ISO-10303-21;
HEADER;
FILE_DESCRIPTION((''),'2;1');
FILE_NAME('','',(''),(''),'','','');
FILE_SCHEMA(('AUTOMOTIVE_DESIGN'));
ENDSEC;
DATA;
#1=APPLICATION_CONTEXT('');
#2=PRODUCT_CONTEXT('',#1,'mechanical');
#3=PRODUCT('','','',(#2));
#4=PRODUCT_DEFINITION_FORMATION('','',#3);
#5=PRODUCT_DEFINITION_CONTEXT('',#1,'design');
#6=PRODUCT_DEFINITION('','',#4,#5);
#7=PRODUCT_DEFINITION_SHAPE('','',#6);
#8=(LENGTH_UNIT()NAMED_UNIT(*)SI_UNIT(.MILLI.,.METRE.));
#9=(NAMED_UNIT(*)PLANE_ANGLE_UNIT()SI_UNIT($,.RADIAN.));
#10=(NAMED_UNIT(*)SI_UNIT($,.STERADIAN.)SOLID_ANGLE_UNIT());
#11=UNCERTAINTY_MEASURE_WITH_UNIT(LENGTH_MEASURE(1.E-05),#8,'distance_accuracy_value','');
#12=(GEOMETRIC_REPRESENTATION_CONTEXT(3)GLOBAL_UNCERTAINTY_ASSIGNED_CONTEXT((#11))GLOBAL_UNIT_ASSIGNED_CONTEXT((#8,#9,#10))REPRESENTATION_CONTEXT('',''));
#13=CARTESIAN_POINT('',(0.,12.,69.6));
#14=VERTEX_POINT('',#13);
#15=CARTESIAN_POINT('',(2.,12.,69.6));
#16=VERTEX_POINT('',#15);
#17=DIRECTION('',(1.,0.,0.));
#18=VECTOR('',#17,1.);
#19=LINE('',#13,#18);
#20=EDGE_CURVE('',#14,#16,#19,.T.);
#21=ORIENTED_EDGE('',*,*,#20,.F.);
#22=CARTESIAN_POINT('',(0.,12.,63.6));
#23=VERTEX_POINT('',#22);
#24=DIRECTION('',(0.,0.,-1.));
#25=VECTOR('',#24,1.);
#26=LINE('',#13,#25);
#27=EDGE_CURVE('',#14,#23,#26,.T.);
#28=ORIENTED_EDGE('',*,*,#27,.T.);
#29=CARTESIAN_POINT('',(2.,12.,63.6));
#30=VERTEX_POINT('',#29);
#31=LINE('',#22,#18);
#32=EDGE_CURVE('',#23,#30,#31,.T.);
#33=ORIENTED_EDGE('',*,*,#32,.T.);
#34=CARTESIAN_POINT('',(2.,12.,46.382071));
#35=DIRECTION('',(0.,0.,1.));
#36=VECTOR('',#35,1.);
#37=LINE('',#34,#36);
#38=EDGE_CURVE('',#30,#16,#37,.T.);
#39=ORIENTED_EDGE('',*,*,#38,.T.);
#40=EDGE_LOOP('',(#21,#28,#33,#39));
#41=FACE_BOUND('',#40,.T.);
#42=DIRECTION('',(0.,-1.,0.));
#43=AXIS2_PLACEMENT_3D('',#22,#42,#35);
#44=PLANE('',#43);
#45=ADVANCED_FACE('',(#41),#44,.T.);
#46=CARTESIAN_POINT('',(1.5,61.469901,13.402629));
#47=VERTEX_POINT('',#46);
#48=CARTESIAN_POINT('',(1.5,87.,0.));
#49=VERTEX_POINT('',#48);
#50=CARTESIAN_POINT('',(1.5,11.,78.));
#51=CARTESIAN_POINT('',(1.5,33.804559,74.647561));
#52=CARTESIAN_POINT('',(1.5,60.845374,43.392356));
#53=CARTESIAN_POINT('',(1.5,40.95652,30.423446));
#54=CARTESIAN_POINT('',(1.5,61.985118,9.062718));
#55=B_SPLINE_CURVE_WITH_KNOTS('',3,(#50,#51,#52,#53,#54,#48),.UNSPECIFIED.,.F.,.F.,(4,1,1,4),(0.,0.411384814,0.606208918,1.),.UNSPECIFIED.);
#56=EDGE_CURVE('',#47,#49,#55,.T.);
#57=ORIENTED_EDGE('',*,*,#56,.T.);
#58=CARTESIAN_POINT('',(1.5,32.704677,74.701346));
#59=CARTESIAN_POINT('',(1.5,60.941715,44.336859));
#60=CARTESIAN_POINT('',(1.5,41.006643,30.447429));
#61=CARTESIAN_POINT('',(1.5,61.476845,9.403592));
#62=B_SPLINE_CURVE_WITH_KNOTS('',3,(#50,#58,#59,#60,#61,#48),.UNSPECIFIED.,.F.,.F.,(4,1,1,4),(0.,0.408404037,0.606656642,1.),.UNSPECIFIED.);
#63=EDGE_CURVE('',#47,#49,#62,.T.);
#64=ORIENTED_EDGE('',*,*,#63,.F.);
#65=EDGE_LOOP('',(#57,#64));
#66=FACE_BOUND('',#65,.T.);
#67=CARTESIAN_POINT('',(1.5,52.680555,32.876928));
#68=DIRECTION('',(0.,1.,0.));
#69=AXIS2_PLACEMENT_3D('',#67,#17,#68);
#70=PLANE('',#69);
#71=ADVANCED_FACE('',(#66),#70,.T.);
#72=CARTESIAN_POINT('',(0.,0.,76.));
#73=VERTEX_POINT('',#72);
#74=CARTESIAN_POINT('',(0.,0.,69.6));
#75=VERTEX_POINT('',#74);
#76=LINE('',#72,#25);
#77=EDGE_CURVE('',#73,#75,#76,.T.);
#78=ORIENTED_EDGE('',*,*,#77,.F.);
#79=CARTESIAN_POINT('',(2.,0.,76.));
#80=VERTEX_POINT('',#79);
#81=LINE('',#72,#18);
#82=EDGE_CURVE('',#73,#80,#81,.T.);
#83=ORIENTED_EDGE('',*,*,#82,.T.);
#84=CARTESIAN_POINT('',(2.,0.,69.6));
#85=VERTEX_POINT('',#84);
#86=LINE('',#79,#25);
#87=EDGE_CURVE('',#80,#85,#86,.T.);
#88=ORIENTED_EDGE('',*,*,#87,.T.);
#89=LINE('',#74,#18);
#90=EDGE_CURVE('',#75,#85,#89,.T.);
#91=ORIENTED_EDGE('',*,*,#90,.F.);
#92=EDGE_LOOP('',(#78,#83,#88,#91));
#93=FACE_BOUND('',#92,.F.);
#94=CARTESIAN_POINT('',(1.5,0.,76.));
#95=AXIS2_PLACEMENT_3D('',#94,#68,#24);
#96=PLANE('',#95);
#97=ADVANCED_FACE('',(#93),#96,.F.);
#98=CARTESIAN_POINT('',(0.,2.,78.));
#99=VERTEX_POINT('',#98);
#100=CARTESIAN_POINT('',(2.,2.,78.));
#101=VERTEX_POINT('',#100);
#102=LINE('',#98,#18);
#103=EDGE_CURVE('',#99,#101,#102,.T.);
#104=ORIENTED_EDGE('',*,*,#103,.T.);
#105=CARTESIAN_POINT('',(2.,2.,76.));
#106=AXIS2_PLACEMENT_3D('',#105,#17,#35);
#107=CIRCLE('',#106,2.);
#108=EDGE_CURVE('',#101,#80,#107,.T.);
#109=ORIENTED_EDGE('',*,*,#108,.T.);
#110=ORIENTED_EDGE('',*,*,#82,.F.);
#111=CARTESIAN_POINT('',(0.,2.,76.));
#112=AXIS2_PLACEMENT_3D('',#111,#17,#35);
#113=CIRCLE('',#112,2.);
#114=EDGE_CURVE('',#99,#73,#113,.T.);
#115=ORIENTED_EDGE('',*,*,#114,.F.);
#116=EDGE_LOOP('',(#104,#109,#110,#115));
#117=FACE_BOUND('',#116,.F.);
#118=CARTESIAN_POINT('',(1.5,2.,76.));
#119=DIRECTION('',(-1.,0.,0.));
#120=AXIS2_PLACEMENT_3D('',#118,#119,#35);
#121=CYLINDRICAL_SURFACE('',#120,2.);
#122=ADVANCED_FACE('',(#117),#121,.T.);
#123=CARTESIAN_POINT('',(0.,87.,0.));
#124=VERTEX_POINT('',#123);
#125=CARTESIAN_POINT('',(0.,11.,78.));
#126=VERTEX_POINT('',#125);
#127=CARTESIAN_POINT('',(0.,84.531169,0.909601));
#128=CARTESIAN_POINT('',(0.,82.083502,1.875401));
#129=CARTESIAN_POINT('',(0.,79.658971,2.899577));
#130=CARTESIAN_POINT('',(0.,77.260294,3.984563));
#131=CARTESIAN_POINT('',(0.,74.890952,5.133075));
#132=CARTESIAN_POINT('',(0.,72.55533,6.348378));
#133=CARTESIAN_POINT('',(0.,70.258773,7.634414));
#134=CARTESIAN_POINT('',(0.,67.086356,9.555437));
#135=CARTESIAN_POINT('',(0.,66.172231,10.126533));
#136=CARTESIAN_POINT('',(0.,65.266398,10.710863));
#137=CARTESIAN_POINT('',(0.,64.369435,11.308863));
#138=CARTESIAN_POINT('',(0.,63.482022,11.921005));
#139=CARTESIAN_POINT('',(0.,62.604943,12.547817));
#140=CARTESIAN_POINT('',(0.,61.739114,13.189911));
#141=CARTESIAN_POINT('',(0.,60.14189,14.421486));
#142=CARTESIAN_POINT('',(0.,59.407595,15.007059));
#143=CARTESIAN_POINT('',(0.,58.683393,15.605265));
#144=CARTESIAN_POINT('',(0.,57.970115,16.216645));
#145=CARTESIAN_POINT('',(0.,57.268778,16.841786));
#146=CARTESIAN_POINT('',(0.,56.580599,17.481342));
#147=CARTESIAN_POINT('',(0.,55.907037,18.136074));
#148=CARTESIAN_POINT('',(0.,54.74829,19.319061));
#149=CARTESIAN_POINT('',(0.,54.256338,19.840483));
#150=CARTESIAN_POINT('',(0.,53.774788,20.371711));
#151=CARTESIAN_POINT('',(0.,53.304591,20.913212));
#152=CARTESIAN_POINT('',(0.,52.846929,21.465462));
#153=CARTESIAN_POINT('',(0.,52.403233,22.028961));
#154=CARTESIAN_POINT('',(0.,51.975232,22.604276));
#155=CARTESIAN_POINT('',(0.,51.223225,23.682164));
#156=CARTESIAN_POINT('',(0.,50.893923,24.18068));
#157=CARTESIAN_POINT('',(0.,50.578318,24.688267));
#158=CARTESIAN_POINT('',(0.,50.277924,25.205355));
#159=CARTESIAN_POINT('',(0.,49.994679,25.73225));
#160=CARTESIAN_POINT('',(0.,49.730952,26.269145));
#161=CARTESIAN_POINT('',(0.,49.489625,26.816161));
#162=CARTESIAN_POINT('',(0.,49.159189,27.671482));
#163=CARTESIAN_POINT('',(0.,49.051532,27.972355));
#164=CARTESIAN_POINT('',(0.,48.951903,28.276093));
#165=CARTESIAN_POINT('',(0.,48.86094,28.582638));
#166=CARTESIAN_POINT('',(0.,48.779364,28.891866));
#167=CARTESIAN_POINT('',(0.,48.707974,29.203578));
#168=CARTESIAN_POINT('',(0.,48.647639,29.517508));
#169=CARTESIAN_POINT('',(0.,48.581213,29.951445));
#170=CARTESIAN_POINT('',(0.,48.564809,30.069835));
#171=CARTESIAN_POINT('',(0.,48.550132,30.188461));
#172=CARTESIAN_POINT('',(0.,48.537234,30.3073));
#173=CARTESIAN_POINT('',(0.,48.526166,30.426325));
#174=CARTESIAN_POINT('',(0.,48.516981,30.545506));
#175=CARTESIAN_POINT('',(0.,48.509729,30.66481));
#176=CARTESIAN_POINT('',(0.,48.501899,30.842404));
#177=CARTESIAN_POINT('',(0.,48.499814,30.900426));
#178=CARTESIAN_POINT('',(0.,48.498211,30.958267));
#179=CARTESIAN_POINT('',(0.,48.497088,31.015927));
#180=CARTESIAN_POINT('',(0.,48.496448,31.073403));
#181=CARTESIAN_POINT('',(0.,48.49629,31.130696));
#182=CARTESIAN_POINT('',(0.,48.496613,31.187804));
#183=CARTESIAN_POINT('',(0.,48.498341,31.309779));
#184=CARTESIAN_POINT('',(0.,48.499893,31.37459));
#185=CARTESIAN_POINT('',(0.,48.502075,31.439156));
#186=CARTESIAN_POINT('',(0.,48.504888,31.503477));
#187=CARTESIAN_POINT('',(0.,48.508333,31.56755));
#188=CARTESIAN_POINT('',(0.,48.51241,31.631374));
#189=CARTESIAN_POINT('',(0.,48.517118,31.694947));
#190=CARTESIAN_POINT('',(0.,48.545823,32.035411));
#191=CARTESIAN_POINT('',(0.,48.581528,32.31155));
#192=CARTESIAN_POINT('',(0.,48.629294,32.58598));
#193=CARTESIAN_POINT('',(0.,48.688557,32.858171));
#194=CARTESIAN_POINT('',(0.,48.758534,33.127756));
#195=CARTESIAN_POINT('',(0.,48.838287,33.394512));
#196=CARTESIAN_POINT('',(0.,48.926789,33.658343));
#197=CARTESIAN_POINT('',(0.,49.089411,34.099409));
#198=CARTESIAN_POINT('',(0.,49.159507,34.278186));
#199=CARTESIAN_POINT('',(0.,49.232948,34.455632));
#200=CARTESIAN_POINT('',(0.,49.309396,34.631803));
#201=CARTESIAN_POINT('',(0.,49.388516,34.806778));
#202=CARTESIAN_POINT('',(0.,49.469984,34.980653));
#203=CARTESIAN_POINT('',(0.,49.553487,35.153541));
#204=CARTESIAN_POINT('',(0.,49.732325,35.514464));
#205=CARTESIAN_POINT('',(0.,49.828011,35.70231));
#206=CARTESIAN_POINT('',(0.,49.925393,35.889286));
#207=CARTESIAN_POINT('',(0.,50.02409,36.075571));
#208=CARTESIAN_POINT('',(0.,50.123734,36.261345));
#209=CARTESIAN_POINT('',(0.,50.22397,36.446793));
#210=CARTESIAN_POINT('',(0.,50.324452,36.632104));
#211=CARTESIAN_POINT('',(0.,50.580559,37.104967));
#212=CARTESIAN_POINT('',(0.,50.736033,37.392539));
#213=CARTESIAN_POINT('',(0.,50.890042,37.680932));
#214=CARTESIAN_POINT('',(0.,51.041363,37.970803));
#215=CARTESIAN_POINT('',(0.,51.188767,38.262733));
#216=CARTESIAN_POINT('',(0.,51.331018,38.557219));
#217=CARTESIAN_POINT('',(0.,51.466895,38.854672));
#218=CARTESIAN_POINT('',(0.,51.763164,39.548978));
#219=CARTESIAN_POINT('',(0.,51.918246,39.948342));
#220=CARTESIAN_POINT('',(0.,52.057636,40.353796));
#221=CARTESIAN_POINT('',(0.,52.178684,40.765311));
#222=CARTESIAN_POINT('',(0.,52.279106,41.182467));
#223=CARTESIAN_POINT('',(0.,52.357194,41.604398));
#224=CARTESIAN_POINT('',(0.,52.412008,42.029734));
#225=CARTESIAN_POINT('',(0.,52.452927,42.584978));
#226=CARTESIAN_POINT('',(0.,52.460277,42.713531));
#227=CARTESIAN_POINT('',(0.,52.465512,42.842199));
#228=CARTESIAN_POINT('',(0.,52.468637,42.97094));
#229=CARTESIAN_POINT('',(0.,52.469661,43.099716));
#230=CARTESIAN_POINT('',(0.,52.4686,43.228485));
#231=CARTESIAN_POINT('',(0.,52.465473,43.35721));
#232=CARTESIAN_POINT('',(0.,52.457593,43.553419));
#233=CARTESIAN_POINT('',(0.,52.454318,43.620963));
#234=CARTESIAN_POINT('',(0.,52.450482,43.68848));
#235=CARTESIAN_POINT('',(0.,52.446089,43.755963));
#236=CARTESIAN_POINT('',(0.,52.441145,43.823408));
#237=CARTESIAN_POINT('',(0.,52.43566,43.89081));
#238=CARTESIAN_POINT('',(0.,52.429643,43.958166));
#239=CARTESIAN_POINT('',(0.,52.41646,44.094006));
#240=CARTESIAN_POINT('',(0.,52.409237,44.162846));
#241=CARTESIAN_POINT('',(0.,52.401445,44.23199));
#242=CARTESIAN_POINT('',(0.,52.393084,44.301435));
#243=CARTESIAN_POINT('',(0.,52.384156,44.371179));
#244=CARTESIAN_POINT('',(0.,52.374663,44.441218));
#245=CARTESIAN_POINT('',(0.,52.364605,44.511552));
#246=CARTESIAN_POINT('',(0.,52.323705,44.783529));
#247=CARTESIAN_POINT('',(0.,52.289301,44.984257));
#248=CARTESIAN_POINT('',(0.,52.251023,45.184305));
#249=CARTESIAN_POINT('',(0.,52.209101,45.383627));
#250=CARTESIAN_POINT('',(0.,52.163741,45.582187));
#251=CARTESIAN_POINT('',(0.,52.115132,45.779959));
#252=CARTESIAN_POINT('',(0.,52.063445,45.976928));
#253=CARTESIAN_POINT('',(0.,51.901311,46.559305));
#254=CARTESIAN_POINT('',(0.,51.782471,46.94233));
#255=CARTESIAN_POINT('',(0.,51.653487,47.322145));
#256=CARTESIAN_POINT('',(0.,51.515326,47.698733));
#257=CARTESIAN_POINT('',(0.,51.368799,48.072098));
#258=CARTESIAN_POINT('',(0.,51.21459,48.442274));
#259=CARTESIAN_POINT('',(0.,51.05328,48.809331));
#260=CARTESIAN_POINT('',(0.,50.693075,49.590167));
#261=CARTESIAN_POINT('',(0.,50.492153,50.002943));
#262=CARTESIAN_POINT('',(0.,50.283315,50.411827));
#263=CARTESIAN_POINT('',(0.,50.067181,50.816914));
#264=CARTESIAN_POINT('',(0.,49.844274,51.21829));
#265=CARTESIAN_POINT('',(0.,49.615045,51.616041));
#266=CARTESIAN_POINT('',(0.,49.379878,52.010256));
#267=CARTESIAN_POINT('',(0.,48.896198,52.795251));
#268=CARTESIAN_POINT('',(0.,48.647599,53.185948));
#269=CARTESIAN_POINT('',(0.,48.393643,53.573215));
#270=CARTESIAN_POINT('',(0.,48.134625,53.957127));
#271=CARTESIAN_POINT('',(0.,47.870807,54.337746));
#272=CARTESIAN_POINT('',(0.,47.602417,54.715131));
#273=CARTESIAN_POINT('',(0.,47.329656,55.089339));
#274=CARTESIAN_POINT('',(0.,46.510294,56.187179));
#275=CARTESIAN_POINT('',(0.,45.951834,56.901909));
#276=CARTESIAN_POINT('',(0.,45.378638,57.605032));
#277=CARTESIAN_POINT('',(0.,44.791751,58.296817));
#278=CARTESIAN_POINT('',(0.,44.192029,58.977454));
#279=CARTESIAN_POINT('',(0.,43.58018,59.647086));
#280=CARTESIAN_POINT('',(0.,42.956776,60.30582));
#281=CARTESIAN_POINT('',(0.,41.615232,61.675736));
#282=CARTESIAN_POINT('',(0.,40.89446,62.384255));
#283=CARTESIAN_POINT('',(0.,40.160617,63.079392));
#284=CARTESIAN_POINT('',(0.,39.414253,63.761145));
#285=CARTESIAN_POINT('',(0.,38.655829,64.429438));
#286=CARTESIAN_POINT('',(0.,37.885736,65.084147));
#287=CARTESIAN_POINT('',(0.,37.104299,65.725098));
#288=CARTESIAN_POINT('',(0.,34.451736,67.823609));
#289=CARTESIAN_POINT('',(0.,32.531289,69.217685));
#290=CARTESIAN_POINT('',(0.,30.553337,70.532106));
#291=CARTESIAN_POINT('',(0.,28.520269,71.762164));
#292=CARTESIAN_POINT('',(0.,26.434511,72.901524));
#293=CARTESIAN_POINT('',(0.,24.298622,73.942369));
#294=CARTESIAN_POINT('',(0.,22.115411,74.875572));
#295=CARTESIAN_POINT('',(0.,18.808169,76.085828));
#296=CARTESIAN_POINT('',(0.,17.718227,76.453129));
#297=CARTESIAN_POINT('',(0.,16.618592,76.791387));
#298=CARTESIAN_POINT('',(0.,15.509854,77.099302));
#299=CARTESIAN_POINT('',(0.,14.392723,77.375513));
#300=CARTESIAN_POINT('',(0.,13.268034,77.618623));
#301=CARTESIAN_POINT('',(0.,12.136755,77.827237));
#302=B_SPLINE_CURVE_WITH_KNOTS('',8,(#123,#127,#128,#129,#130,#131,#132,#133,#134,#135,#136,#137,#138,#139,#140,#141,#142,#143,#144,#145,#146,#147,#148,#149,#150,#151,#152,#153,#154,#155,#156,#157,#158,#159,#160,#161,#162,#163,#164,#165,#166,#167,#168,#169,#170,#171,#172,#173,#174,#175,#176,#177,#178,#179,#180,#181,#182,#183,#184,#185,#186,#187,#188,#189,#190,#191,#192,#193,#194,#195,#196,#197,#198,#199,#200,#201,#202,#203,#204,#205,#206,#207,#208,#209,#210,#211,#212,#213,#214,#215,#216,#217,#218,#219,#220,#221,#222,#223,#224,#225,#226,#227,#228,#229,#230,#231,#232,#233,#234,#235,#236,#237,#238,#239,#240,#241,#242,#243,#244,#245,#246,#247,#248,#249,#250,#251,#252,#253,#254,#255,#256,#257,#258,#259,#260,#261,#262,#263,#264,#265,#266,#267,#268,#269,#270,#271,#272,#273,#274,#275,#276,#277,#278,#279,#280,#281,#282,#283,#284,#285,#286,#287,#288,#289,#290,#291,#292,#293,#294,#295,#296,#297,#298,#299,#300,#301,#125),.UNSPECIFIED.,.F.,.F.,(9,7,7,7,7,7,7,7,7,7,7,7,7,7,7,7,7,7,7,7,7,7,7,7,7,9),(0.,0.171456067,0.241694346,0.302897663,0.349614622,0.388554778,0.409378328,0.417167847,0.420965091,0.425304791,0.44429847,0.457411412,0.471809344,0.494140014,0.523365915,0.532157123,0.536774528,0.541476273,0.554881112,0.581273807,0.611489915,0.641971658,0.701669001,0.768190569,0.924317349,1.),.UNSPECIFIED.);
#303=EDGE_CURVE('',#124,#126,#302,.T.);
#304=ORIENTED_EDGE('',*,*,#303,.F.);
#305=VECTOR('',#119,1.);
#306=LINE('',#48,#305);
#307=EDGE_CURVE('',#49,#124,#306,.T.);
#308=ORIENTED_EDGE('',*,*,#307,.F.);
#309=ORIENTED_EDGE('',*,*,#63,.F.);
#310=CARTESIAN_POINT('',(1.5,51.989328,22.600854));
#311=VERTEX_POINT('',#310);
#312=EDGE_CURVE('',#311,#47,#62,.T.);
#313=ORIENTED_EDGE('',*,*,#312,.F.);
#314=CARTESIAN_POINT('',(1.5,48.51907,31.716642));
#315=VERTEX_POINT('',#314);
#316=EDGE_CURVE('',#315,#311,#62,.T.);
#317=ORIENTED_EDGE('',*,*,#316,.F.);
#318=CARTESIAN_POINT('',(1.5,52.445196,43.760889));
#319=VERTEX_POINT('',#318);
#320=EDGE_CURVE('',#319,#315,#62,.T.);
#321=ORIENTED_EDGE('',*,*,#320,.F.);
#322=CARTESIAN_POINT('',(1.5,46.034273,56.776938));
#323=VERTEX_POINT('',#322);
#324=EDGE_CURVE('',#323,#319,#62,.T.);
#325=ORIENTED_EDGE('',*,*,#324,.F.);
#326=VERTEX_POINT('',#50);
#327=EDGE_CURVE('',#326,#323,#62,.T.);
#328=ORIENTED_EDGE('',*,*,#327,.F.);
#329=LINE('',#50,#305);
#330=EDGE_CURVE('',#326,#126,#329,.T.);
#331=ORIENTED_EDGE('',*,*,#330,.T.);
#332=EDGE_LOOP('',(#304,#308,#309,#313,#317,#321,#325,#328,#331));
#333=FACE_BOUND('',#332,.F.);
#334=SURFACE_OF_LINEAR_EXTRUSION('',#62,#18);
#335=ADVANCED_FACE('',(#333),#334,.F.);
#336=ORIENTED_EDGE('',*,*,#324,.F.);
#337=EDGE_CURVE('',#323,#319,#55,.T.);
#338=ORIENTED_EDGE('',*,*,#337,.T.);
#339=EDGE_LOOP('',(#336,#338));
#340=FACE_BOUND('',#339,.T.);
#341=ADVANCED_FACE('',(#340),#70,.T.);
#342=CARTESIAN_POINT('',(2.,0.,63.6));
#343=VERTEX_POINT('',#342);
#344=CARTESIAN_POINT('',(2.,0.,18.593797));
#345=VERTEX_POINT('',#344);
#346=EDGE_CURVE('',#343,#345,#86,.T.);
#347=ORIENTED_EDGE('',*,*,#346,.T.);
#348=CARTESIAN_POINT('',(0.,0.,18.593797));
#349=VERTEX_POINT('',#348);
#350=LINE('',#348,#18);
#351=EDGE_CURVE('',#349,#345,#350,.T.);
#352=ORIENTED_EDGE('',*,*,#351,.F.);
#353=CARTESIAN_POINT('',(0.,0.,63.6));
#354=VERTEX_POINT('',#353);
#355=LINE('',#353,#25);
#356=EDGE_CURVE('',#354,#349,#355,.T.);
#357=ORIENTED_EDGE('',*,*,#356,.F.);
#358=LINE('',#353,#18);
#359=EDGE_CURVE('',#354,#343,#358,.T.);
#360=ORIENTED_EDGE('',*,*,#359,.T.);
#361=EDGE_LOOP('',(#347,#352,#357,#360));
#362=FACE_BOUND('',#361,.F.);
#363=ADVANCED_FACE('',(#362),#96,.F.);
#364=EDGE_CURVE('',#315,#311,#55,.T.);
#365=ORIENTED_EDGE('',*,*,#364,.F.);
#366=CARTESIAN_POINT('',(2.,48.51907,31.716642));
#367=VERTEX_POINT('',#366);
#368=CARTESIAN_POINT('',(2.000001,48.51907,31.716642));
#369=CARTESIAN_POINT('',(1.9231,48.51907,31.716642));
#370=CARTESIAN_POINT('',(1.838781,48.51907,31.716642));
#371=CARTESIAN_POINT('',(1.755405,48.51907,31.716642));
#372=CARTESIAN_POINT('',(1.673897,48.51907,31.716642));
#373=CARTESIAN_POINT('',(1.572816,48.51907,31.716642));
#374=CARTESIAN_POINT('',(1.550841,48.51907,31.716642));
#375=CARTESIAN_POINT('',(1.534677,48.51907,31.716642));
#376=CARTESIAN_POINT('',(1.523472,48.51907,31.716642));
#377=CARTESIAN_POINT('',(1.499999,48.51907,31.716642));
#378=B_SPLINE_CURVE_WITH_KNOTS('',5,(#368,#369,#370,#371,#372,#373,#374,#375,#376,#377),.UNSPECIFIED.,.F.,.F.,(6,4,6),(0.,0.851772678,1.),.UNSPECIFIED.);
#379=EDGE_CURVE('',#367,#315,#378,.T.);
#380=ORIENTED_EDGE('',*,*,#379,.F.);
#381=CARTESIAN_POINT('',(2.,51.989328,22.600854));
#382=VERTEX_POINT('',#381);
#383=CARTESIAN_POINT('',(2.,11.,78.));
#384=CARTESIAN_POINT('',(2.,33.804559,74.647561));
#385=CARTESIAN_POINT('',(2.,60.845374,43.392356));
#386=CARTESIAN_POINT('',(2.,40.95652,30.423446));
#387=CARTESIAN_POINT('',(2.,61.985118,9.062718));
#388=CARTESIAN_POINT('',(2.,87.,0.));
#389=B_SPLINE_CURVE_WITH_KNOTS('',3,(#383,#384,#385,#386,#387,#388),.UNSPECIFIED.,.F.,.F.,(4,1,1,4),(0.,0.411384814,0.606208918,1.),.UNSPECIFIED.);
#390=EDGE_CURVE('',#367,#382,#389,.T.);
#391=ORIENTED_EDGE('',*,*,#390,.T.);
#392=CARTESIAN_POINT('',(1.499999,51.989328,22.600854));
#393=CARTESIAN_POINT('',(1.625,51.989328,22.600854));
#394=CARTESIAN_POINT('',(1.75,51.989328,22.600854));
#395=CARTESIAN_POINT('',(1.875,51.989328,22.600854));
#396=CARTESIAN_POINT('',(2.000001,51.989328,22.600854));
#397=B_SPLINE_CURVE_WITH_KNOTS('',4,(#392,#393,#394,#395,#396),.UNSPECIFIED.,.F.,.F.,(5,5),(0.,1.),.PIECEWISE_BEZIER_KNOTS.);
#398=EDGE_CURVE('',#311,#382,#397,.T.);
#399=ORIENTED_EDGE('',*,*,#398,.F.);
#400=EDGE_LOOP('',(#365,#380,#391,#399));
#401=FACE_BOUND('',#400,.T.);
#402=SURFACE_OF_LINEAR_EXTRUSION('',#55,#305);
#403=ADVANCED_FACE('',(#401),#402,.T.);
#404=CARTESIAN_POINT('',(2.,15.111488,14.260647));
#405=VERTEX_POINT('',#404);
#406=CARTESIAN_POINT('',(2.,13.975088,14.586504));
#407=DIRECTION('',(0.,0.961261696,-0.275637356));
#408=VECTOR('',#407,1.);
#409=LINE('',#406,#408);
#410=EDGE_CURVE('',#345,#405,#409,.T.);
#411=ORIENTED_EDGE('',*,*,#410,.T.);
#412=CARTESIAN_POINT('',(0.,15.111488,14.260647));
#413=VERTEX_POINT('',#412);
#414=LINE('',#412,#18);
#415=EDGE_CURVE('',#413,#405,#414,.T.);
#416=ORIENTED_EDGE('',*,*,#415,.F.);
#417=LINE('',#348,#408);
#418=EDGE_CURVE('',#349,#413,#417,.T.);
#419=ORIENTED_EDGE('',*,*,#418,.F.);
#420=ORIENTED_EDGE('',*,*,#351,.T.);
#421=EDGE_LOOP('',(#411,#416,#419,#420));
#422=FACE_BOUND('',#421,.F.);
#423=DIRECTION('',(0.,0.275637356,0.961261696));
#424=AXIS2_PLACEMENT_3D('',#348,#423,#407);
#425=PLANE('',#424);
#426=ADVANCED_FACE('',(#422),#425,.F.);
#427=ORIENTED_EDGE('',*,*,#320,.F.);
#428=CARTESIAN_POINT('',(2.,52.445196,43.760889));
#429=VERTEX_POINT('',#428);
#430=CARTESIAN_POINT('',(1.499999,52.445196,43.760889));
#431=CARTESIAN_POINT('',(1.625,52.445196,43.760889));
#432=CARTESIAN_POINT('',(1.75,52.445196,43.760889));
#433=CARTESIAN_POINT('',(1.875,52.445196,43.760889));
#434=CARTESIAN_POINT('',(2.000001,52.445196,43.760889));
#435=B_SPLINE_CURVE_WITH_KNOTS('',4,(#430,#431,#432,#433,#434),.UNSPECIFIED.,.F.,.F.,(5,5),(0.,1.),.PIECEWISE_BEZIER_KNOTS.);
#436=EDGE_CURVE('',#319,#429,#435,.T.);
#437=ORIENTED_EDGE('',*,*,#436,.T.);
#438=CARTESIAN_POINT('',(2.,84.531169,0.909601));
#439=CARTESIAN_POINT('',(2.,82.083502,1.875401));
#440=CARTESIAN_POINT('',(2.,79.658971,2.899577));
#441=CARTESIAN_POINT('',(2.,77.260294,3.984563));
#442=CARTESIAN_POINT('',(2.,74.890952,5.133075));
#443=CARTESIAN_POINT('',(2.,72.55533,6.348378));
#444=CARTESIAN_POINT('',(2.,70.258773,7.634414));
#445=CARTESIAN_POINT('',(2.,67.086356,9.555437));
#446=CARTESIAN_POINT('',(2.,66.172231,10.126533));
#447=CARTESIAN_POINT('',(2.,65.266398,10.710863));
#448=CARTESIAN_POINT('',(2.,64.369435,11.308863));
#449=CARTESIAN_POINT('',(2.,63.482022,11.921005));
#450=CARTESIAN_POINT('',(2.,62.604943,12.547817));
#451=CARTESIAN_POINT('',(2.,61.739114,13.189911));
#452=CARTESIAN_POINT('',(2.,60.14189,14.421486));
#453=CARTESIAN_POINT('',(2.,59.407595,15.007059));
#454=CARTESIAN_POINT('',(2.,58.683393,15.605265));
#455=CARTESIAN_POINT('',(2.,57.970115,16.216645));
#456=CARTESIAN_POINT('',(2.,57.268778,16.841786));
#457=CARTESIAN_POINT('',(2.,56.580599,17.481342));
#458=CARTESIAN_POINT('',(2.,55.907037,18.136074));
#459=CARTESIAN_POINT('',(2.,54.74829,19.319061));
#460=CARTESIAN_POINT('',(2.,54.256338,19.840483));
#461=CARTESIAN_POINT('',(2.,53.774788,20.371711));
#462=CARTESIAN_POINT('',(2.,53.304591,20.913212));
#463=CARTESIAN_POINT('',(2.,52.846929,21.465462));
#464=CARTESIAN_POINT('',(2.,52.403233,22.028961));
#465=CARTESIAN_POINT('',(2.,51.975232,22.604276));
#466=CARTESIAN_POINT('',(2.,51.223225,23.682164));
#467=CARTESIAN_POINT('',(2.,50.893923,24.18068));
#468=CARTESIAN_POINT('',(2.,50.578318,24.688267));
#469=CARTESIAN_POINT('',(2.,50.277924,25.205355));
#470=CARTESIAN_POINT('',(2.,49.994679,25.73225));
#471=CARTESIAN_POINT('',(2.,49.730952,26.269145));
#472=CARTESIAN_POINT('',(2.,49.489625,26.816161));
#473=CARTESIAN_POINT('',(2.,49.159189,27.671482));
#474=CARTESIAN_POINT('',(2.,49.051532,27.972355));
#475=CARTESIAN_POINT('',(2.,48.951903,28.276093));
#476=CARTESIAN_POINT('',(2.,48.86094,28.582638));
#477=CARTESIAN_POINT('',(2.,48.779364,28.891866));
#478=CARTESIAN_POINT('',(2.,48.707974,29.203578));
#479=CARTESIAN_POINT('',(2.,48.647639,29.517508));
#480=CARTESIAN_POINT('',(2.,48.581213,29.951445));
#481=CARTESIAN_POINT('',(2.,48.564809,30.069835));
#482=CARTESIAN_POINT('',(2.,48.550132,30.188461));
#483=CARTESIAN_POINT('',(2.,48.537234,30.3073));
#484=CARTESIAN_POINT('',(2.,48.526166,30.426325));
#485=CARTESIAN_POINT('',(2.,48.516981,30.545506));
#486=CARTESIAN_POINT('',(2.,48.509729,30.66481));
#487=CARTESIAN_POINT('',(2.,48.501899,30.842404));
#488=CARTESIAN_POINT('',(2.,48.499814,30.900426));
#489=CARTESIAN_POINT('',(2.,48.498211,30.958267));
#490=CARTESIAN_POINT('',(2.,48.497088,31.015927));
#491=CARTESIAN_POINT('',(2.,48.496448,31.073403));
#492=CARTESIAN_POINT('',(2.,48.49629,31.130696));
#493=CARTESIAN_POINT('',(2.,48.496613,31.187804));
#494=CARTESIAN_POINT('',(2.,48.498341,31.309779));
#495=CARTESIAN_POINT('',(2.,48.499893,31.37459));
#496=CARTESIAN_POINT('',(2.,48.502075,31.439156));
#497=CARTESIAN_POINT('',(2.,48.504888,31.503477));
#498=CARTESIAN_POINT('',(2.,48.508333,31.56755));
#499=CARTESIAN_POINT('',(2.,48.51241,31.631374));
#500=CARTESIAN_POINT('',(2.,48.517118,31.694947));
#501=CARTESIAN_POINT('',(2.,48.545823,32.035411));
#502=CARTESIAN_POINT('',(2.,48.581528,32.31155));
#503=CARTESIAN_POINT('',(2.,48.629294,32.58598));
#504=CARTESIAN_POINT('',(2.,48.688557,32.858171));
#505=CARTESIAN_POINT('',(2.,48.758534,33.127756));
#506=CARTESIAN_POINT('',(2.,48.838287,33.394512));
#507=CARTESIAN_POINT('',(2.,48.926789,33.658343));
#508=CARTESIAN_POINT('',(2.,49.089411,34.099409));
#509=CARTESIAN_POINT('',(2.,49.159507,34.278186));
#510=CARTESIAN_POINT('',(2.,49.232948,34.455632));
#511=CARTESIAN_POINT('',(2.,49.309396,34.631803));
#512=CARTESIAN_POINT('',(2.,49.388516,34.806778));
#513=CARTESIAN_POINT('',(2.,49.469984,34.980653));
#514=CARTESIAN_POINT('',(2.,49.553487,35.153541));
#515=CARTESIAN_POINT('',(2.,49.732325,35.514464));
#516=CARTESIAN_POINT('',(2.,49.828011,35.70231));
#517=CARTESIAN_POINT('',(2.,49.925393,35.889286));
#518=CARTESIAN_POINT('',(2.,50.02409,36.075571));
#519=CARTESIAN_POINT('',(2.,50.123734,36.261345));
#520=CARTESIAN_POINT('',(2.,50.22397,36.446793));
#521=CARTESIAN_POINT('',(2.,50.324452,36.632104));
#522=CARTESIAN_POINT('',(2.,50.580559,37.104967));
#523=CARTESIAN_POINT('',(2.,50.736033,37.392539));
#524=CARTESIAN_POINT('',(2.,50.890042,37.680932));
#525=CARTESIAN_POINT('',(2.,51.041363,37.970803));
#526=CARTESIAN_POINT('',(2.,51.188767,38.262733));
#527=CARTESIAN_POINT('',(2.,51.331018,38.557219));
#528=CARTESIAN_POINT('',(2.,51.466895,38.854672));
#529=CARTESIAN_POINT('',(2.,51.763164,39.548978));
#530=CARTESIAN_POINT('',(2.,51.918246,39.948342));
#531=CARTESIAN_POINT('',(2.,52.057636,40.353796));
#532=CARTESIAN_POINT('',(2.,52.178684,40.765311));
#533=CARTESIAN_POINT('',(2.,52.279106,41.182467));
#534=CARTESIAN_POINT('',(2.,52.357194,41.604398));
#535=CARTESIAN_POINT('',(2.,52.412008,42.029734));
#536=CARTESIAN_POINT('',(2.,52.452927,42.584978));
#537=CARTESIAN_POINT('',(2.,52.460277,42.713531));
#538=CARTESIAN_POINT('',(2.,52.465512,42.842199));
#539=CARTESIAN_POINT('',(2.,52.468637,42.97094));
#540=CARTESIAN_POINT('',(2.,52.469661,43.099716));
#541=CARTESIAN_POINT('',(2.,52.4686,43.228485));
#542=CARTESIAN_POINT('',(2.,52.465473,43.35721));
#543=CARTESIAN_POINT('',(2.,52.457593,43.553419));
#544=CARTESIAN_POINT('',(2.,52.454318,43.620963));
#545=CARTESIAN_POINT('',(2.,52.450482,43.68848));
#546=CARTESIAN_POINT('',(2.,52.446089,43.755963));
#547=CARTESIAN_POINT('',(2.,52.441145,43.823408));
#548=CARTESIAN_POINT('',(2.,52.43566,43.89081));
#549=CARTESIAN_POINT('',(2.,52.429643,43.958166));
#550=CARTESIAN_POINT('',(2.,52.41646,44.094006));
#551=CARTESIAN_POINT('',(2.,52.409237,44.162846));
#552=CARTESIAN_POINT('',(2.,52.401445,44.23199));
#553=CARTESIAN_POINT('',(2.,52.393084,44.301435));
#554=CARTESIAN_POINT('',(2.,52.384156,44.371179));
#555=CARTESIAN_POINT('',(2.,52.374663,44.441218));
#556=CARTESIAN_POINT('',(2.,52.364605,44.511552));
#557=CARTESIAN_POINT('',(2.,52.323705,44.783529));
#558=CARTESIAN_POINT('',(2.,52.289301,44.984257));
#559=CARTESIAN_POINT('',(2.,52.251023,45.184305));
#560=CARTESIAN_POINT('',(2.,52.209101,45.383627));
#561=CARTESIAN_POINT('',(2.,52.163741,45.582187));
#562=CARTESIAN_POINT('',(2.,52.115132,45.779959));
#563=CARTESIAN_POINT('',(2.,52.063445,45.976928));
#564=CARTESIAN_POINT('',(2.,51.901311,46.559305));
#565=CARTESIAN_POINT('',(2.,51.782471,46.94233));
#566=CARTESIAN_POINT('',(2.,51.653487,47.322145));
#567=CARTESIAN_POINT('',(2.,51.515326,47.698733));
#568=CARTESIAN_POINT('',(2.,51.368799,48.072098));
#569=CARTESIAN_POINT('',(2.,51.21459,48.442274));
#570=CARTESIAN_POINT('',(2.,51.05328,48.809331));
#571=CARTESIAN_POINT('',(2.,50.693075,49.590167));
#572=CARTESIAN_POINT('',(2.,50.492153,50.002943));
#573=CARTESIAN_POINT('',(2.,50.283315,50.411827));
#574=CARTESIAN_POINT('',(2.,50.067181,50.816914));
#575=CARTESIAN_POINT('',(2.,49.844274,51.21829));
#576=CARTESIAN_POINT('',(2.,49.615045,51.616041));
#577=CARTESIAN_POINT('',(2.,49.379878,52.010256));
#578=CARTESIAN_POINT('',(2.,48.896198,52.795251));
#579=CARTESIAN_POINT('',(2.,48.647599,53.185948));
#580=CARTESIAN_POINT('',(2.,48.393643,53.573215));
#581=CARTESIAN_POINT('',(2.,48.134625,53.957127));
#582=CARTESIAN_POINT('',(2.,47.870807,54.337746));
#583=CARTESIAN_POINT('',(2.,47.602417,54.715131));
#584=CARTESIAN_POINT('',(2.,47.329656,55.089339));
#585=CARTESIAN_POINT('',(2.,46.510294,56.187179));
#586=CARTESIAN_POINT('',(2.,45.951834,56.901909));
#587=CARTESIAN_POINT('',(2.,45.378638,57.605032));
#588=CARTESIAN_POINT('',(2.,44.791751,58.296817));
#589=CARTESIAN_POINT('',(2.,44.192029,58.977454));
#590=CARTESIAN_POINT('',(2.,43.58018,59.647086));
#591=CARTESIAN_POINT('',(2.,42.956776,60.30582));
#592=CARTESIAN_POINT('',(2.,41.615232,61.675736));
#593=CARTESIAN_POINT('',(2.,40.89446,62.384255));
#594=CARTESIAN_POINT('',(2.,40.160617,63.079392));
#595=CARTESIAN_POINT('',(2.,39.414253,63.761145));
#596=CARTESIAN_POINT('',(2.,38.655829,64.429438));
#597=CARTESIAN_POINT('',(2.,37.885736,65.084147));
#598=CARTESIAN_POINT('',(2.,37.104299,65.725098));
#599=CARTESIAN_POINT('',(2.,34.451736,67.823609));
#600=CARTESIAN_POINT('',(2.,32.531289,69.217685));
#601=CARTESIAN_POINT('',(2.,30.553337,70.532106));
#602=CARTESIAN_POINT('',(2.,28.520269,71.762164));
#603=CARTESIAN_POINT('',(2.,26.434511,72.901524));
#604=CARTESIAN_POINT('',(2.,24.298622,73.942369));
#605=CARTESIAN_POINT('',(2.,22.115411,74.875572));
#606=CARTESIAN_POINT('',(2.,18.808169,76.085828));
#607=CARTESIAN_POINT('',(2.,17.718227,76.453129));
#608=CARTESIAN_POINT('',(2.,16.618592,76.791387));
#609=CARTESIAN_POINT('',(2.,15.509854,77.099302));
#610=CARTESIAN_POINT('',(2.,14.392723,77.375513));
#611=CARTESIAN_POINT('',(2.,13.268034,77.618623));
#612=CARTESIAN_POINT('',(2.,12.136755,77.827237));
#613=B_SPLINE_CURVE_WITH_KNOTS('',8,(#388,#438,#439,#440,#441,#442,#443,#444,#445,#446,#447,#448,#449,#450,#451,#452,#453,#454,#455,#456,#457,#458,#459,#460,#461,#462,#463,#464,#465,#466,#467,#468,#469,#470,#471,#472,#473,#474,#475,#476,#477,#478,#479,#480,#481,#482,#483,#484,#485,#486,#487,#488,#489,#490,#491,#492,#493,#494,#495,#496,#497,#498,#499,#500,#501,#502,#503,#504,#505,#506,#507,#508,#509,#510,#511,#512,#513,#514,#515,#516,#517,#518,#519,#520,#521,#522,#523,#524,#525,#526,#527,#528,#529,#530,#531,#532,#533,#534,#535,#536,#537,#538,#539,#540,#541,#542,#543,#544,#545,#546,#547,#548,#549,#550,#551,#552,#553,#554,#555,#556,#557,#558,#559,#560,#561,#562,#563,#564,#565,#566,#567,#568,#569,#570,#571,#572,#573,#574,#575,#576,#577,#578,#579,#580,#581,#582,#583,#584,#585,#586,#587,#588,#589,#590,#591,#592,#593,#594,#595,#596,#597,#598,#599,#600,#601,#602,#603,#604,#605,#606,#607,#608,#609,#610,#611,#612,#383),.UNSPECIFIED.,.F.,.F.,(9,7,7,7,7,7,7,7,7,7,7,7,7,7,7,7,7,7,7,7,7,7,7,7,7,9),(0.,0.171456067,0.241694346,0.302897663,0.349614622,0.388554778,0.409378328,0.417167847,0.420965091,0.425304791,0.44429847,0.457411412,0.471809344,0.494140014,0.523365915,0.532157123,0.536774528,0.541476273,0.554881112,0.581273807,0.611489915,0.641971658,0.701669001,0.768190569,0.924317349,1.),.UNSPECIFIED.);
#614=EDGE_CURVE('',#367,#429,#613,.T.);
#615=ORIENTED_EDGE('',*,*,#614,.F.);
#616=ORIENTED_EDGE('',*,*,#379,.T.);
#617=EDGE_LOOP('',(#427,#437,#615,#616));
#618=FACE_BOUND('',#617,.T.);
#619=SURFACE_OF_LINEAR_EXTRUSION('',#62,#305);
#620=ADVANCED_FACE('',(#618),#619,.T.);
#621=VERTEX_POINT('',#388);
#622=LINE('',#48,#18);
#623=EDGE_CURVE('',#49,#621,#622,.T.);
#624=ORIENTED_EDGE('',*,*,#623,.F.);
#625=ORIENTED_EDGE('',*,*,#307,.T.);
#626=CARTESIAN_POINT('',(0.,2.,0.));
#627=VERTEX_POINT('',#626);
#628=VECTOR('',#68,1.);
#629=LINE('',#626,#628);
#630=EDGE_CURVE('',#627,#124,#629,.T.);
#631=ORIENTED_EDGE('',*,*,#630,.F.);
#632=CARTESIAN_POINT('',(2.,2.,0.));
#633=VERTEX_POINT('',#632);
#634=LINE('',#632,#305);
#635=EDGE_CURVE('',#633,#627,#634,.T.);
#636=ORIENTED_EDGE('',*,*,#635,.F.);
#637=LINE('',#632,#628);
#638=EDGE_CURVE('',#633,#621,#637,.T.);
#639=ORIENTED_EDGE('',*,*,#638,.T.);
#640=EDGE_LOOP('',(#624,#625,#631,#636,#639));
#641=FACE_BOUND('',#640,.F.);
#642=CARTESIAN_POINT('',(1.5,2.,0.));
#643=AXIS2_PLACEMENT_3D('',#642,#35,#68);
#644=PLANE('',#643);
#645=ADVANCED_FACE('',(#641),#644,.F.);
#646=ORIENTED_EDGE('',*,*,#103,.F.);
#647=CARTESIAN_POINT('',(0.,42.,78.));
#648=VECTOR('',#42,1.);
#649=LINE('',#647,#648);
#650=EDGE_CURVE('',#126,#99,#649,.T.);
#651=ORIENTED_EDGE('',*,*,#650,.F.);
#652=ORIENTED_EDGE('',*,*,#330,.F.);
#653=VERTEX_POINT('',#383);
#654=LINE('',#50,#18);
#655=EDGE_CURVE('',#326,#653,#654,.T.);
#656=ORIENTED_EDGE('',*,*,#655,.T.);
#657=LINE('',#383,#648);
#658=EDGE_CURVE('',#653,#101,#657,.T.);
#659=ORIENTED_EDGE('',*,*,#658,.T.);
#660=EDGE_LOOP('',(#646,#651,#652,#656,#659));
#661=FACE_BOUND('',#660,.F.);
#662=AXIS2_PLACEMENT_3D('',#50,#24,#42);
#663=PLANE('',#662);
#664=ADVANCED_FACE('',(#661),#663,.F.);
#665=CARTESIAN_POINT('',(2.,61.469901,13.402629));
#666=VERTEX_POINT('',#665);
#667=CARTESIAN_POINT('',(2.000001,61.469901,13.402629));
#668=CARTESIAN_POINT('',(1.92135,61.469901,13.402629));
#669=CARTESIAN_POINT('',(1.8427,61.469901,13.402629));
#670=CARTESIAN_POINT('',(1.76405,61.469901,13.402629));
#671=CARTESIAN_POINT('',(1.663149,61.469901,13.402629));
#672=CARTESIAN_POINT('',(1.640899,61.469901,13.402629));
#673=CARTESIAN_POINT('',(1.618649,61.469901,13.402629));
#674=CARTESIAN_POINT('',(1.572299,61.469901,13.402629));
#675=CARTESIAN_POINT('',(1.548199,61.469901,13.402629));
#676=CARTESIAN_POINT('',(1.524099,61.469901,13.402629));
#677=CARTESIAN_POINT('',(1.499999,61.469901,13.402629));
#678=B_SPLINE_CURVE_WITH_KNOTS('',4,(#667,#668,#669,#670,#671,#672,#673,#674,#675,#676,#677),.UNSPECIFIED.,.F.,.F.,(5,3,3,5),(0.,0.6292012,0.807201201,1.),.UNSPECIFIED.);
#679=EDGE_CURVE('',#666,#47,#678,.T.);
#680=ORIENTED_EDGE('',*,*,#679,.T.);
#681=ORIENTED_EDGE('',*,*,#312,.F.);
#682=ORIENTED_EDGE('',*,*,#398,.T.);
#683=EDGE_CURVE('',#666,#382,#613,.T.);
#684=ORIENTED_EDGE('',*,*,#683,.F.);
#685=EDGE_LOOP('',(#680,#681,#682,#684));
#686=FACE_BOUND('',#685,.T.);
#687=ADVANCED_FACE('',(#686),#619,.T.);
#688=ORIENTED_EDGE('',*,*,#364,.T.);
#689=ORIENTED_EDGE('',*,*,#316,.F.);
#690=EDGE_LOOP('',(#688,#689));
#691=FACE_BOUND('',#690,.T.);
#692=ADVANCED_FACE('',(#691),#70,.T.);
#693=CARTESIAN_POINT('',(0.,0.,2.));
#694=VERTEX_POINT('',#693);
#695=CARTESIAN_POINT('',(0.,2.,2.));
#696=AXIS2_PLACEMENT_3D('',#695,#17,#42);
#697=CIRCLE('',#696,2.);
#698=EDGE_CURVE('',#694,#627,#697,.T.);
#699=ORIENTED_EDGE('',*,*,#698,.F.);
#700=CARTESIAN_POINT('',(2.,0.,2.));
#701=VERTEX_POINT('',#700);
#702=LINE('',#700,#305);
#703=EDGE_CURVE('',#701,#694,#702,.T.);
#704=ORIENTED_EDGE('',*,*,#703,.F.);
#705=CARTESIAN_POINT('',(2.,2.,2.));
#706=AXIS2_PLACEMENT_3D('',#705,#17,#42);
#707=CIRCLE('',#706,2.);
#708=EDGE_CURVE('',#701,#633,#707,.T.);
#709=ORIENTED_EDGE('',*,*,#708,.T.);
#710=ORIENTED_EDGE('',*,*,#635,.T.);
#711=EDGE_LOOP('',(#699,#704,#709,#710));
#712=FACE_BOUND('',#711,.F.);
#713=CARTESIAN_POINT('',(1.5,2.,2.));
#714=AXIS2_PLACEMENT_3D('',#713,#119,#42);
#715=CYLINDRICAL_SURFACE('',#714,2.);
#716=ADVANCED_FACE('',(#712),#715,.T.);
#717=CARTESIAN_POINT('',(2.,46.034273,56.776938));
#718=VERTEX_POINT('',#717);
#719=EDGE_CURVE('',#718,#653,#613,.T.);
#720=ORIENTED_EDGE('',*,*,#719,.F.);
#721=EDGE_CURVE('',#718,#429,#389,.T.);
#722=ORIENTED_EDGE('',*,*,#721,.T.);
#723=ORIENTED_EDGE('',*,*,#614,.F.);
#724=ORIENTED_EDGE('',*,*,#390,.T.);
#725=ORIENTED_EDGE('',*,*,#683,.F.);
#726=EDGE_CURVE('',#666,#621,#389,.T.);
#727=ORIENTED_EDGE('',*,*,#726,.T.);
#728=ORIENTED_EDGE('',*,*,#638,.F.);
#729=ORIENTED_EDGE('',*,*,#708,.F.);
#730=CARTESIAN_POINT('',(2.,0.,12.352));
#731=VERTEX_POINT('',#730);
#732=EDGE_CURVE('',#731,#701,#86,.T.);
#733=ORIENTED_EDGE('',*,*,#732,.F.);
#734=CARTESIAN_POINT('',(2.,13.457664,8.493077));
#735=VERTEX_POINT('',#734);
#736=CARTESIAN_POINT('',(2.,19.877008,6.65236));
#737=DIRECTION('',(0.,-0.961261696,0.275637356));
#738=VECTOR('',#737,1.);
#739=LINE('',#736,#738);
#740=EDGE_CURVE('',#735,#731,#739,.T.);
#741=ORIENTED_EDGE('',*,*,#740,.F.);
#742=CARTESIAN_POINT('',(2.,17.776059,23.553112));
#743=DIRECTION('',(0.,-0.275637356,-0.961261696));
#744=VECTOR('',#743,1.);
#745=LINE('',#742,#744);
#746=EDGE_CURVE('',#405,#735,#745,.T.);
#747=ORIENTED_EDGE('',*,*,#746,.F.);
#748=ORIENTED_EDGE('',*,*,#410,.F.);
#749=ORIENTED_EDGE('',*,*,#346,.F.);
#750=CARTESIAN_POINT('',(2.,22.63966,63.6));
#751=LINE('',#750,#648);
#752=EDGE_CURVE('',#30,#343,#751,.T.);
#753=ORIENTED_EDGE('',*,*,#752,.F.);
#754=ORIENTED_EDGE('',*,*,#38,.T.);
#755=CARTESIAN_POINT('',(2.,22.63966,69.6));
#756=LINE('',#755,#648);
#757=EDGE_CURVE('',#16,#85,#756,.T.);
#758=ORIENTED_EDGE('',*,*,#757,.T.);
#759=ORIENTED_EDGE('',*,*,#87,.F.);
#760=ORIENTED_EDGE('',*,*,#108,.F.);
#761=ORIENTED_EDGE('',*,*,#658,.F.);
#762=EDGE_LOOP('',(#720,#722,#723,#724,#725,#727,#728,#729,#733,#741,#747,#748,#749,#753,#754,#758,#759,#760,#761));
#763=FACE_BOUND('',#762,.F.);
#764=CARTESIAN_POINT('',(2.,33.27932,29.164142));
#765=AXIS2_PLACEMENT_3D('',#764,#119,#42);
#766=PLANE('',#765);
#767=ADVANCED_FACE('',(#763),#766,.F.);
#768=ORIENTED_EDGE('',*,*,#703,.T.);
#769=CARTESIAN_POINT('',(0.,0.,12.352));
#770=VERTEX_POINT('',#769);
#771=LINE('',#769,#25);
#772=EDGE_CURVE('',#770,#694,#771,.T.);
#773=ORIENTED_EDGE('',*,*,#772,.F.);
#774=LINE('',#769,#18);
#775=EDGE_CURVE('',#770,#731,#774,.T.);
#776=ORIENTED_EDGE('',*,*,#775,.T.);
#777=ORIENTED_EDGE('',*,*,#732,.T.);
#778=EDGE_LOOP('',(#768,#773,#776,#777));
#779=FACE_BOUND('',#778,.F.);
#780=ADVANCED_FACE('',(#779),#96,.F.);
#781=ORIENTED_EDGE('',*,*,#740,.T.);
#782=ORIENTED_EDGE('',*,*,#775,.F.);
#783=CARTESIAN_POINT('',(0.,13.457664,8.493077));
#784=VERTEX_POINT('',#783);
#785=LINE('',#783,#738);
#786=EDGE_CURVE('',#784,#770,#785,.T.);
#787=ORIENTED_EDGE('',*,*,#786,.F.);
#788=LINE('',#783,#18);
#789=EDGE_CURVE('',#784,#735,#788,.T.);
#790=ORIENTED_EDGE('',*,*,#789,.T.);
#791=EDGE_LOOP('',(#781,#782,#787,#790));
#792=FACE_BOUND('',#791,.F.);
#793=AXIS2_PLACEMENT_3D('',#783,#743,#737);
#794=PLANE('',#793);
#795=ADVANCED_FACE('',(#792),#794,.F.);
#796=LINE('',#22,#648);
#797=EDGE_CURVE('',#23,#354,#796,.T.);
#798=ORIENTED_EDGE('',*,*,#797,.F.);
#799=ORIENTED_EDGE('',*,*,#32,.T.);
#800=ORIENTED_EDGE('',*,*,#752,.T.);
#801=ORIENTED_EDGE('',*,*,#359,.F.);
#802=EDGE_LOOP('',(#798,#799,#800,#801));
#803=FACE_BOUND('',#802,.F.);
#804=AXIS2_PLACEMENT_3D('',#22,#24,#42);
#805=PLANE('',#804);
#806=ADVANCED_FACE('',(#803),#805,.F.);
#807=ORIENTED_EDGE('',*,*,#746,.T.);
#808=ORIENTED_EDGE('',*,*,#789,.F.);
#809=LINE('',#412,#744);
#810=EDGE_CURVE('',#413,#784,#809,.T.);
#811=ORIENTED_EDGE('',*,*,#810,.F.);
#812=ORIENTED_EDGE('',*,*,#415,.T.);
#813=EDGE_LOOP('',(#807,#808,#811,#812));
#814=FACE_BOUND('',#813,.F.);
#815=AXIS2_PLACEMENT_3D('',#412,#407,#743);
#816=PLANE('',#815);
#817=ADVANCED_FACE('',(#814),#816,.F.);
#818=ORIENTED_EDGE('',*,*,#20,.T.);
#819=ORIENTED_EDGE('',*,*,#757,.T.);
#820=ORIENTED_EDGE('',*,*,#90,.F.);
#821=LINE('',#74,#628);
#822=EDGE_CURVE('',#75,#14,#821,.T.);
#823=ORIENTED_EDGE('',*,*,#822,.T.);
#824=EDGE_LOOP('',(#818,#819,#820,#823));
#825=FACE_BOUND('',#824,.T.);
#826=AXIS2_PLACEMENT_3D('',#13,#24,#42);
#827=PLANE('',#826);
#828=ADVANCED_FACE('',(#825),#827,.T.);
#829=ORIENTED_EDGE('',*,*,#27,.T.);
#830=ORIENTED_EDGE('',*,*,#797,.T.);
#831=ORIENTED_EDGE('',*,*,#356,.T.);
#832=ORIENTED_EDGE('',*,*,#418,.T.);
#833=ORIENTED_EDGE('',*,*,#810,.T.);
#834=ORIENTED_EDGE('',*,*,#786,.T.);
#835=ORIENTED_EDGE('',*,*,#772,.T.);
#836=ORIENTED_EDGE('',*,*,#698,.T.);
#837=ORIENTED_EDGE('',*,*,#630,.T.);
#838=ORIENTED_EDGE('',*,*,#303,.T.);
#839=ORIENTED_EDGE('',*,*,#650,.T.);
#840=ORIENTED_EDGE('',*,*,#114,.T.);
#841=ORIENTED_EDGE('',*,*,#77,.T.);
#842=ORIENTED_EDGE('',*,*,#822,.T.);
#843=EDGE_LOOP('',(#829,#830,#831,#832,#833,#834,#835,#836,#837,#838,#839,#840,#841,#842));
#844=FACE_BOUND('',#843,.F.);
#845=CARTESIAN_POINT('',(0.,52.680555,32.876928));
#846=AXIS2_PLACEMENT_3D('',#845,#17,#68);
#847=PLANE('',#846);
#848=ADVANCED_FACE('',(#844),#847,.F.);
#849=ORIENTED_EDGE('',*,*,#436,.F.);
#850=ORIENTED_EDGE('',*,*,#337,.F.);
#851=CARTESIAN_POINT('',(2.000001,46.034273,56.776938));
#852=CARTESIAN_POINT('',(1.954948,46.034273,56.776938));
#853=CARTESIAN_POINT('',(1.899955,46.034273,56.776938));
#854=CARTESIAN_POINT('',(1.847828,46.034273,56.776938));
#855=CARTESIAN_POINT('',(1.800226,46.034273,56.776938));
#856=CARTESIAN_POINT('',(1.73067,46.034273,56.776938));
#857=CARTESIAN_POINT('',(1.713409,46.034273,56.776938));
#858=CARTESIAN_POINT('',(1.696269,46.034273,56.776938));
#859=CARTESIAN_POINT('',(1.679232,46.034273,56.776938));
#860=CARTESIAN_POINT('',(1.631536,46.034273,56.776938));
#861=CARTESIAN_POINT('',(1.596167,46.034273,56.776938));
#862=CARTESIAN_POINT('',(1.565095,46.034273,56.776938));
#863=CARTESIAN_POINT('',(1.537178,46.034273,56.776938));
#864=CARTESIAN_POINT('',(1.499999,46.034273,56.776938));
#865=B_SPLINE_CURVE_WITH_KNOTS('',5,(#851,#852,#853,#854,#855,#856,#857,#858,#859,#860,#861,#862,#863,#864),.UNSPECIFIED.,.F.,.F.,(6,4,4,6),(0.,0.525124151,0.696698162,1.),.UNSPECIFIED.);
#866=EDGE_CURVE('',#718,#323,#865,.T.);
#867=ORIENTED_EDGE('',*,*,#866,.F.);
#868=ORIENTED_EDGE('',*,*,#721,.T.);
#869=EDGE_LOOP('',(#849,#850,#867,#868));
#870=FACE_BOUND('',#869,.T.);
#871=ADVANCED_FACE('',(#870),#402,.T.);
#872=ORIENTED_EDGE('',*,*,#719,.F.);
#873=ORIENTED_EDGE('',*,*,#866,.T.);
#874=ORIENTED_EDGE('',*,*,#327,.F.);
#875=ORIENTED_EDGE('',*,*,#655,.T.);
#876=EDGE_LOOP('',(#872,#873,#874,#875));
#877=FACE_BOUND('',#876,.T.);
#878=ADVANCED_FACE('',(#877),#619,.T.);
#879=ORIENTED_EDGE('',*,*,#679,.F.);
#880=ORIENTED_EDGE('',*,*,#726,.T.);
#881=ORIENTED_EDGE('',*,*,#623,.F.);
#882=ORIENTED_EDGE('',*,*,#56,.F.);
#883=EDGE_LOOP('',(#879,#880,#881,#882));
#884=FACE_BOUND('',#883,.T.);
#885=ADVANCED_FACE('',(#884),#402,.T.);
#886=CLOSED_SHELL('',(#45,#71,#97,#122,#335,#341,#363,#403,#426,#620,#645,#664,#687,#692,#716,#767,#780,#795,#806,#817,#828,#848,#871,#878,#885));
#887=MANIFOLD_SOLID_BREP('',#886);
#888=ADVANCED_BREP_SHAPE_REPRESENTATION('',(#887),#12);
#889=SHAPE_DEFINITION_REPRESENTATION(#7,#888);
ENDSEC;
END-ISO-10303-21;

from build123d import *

# Parameters (mm, degrees)
F1_DEPTH      = 1.5
F4_DEPTH      = 0.5
F5_W          = 12
F5_H          = 6
F6_DEPTH      = 25
F8_DEPTH      = 25
F8_DEPTH_BACK = 25


with BuildPart() as f1:
    # F0 (on Right) → F1 (new body)
    with BuildSketch(Plane.YZ):
        with BuildLine():
            Line((42, 78), (2, 78))
            ThreePointArc((2, 78), (0.5857864376, 77.4142135624), (0, 76))
            Line((0, 76), (0, 69.6))
            Line((0, 69.6), (12, 69.6))
            Line((12, 69.6), (12, 63.6))
            Line((12, 63.6), (0, 63.6))
            Line((0, 63.6), (0, 18.5937966152))
            Line((0, 18.5937966152), (15.111487878, 14.2606471942))
            Line((15.111487878, 14.2606471942), (13.4576637431, 8.4930770186))
            Line((13.4576637431, 8.4930770186), (0, 12.352))
            Line((0, 12.352), (0, 2))
            ThreePointArc((0, 2), (0.5857864376, 0.5857864376), (2, 0))
            Line((2, 0), (109, 0))
            add(Edge.make_bspline(
                [(42, 78), (49.7588251107, 74.4711096647), (42.8270565854, 74.0872679271), (176.3258193003, 17.6443266752), (122.5913906271, 2.3415980892), (109, 0)],
                knots=[0, 0, 0, 0, 0.1806872551, 0.6953480319, 1, 1, 1, 1], degree=3))
        make_face()
    extrude(amount=F1_DEPTH)

    # F3 (on face) → F4 (join)
    with BuildSketch(Plane.YZ.offset(1.5)):
        with BuildLine():
            add(Edge.make_bspline(
                [(11, 78), (33.8045589941, 74.6475609926), (60.8453739258, 43.3923563223), (40.9565199131, 30.4234463117), (61.9851178247, 9.0627176212), (87, 0)],
                knots=[0, 0, 0, 0, 0.4113848141, 0.6062089181, 1, 1, 1, 1], degree=3))
            Line((11, 78), (2, 78))
            ThreePointArc((2, 78), (0.5857864376, 77.4142135624), (0, 76))
            Line((0, 76), (0, 2))
            ThreePointArc((0, 2), (0.5857864376, 0.5857864376), (2, 0))
            Line((2, 0), (87, 0))
        make_face()
    extrude(amount=F4_DEPTH)

    # F5 (on face) → F6 (cut)
    with BuildSketch(Plane(origin=(0, 0, 0), x_dir=(0, -1, 0), z_dir=(-1, 0, 0))):
        with Locations((-6, 66.6)):
            Rectangle(F5_W, F5_H)
        Polygon((0, 12.352), (0, 18.5937966152), (-15.111487878, 14.2606471942), (-13.4576637431, 8.4930770186), align=None)
    extrude(amount=-F6_DEPTH, mode=Mode.SUBTRACT)

    # F7 (on face) → F8 (cut, two sides)
    with BuildSketch(Plane.YZ.offset(1.5)) as f8_sk:
        with BuildLine():
            Line((42, 78), (11, 78))
            add(Edge.make_bspline(
                [(11, 78), (32.7046774328, 74.701346457), (60.9417149737, 44.3368591286), (41.0066430471, 30.4474293417), (61.4768450259, 9.4035917217), (87, 0)],
                knots=[0, 0, 0, 0, 0.4084040366, 0.6066566416, 1, 1, 1, 1], degree=3))
            Line((87, 0), (150.4463404417, -1.7935086507))
            Line((150.4463404417, -1.7935086507), (144.0423130989, 78))
            Line((144.0423130989, 78), (42, 78))
        make_face()
    extrude(amount=-F8_DEPTH, mode=Mode.SUBTRACT)
    extrude(f8_sk.sketch, amount=F8_DEPTH_BACK, mode=Mode.SUBTRACT)


solid = f1.part
